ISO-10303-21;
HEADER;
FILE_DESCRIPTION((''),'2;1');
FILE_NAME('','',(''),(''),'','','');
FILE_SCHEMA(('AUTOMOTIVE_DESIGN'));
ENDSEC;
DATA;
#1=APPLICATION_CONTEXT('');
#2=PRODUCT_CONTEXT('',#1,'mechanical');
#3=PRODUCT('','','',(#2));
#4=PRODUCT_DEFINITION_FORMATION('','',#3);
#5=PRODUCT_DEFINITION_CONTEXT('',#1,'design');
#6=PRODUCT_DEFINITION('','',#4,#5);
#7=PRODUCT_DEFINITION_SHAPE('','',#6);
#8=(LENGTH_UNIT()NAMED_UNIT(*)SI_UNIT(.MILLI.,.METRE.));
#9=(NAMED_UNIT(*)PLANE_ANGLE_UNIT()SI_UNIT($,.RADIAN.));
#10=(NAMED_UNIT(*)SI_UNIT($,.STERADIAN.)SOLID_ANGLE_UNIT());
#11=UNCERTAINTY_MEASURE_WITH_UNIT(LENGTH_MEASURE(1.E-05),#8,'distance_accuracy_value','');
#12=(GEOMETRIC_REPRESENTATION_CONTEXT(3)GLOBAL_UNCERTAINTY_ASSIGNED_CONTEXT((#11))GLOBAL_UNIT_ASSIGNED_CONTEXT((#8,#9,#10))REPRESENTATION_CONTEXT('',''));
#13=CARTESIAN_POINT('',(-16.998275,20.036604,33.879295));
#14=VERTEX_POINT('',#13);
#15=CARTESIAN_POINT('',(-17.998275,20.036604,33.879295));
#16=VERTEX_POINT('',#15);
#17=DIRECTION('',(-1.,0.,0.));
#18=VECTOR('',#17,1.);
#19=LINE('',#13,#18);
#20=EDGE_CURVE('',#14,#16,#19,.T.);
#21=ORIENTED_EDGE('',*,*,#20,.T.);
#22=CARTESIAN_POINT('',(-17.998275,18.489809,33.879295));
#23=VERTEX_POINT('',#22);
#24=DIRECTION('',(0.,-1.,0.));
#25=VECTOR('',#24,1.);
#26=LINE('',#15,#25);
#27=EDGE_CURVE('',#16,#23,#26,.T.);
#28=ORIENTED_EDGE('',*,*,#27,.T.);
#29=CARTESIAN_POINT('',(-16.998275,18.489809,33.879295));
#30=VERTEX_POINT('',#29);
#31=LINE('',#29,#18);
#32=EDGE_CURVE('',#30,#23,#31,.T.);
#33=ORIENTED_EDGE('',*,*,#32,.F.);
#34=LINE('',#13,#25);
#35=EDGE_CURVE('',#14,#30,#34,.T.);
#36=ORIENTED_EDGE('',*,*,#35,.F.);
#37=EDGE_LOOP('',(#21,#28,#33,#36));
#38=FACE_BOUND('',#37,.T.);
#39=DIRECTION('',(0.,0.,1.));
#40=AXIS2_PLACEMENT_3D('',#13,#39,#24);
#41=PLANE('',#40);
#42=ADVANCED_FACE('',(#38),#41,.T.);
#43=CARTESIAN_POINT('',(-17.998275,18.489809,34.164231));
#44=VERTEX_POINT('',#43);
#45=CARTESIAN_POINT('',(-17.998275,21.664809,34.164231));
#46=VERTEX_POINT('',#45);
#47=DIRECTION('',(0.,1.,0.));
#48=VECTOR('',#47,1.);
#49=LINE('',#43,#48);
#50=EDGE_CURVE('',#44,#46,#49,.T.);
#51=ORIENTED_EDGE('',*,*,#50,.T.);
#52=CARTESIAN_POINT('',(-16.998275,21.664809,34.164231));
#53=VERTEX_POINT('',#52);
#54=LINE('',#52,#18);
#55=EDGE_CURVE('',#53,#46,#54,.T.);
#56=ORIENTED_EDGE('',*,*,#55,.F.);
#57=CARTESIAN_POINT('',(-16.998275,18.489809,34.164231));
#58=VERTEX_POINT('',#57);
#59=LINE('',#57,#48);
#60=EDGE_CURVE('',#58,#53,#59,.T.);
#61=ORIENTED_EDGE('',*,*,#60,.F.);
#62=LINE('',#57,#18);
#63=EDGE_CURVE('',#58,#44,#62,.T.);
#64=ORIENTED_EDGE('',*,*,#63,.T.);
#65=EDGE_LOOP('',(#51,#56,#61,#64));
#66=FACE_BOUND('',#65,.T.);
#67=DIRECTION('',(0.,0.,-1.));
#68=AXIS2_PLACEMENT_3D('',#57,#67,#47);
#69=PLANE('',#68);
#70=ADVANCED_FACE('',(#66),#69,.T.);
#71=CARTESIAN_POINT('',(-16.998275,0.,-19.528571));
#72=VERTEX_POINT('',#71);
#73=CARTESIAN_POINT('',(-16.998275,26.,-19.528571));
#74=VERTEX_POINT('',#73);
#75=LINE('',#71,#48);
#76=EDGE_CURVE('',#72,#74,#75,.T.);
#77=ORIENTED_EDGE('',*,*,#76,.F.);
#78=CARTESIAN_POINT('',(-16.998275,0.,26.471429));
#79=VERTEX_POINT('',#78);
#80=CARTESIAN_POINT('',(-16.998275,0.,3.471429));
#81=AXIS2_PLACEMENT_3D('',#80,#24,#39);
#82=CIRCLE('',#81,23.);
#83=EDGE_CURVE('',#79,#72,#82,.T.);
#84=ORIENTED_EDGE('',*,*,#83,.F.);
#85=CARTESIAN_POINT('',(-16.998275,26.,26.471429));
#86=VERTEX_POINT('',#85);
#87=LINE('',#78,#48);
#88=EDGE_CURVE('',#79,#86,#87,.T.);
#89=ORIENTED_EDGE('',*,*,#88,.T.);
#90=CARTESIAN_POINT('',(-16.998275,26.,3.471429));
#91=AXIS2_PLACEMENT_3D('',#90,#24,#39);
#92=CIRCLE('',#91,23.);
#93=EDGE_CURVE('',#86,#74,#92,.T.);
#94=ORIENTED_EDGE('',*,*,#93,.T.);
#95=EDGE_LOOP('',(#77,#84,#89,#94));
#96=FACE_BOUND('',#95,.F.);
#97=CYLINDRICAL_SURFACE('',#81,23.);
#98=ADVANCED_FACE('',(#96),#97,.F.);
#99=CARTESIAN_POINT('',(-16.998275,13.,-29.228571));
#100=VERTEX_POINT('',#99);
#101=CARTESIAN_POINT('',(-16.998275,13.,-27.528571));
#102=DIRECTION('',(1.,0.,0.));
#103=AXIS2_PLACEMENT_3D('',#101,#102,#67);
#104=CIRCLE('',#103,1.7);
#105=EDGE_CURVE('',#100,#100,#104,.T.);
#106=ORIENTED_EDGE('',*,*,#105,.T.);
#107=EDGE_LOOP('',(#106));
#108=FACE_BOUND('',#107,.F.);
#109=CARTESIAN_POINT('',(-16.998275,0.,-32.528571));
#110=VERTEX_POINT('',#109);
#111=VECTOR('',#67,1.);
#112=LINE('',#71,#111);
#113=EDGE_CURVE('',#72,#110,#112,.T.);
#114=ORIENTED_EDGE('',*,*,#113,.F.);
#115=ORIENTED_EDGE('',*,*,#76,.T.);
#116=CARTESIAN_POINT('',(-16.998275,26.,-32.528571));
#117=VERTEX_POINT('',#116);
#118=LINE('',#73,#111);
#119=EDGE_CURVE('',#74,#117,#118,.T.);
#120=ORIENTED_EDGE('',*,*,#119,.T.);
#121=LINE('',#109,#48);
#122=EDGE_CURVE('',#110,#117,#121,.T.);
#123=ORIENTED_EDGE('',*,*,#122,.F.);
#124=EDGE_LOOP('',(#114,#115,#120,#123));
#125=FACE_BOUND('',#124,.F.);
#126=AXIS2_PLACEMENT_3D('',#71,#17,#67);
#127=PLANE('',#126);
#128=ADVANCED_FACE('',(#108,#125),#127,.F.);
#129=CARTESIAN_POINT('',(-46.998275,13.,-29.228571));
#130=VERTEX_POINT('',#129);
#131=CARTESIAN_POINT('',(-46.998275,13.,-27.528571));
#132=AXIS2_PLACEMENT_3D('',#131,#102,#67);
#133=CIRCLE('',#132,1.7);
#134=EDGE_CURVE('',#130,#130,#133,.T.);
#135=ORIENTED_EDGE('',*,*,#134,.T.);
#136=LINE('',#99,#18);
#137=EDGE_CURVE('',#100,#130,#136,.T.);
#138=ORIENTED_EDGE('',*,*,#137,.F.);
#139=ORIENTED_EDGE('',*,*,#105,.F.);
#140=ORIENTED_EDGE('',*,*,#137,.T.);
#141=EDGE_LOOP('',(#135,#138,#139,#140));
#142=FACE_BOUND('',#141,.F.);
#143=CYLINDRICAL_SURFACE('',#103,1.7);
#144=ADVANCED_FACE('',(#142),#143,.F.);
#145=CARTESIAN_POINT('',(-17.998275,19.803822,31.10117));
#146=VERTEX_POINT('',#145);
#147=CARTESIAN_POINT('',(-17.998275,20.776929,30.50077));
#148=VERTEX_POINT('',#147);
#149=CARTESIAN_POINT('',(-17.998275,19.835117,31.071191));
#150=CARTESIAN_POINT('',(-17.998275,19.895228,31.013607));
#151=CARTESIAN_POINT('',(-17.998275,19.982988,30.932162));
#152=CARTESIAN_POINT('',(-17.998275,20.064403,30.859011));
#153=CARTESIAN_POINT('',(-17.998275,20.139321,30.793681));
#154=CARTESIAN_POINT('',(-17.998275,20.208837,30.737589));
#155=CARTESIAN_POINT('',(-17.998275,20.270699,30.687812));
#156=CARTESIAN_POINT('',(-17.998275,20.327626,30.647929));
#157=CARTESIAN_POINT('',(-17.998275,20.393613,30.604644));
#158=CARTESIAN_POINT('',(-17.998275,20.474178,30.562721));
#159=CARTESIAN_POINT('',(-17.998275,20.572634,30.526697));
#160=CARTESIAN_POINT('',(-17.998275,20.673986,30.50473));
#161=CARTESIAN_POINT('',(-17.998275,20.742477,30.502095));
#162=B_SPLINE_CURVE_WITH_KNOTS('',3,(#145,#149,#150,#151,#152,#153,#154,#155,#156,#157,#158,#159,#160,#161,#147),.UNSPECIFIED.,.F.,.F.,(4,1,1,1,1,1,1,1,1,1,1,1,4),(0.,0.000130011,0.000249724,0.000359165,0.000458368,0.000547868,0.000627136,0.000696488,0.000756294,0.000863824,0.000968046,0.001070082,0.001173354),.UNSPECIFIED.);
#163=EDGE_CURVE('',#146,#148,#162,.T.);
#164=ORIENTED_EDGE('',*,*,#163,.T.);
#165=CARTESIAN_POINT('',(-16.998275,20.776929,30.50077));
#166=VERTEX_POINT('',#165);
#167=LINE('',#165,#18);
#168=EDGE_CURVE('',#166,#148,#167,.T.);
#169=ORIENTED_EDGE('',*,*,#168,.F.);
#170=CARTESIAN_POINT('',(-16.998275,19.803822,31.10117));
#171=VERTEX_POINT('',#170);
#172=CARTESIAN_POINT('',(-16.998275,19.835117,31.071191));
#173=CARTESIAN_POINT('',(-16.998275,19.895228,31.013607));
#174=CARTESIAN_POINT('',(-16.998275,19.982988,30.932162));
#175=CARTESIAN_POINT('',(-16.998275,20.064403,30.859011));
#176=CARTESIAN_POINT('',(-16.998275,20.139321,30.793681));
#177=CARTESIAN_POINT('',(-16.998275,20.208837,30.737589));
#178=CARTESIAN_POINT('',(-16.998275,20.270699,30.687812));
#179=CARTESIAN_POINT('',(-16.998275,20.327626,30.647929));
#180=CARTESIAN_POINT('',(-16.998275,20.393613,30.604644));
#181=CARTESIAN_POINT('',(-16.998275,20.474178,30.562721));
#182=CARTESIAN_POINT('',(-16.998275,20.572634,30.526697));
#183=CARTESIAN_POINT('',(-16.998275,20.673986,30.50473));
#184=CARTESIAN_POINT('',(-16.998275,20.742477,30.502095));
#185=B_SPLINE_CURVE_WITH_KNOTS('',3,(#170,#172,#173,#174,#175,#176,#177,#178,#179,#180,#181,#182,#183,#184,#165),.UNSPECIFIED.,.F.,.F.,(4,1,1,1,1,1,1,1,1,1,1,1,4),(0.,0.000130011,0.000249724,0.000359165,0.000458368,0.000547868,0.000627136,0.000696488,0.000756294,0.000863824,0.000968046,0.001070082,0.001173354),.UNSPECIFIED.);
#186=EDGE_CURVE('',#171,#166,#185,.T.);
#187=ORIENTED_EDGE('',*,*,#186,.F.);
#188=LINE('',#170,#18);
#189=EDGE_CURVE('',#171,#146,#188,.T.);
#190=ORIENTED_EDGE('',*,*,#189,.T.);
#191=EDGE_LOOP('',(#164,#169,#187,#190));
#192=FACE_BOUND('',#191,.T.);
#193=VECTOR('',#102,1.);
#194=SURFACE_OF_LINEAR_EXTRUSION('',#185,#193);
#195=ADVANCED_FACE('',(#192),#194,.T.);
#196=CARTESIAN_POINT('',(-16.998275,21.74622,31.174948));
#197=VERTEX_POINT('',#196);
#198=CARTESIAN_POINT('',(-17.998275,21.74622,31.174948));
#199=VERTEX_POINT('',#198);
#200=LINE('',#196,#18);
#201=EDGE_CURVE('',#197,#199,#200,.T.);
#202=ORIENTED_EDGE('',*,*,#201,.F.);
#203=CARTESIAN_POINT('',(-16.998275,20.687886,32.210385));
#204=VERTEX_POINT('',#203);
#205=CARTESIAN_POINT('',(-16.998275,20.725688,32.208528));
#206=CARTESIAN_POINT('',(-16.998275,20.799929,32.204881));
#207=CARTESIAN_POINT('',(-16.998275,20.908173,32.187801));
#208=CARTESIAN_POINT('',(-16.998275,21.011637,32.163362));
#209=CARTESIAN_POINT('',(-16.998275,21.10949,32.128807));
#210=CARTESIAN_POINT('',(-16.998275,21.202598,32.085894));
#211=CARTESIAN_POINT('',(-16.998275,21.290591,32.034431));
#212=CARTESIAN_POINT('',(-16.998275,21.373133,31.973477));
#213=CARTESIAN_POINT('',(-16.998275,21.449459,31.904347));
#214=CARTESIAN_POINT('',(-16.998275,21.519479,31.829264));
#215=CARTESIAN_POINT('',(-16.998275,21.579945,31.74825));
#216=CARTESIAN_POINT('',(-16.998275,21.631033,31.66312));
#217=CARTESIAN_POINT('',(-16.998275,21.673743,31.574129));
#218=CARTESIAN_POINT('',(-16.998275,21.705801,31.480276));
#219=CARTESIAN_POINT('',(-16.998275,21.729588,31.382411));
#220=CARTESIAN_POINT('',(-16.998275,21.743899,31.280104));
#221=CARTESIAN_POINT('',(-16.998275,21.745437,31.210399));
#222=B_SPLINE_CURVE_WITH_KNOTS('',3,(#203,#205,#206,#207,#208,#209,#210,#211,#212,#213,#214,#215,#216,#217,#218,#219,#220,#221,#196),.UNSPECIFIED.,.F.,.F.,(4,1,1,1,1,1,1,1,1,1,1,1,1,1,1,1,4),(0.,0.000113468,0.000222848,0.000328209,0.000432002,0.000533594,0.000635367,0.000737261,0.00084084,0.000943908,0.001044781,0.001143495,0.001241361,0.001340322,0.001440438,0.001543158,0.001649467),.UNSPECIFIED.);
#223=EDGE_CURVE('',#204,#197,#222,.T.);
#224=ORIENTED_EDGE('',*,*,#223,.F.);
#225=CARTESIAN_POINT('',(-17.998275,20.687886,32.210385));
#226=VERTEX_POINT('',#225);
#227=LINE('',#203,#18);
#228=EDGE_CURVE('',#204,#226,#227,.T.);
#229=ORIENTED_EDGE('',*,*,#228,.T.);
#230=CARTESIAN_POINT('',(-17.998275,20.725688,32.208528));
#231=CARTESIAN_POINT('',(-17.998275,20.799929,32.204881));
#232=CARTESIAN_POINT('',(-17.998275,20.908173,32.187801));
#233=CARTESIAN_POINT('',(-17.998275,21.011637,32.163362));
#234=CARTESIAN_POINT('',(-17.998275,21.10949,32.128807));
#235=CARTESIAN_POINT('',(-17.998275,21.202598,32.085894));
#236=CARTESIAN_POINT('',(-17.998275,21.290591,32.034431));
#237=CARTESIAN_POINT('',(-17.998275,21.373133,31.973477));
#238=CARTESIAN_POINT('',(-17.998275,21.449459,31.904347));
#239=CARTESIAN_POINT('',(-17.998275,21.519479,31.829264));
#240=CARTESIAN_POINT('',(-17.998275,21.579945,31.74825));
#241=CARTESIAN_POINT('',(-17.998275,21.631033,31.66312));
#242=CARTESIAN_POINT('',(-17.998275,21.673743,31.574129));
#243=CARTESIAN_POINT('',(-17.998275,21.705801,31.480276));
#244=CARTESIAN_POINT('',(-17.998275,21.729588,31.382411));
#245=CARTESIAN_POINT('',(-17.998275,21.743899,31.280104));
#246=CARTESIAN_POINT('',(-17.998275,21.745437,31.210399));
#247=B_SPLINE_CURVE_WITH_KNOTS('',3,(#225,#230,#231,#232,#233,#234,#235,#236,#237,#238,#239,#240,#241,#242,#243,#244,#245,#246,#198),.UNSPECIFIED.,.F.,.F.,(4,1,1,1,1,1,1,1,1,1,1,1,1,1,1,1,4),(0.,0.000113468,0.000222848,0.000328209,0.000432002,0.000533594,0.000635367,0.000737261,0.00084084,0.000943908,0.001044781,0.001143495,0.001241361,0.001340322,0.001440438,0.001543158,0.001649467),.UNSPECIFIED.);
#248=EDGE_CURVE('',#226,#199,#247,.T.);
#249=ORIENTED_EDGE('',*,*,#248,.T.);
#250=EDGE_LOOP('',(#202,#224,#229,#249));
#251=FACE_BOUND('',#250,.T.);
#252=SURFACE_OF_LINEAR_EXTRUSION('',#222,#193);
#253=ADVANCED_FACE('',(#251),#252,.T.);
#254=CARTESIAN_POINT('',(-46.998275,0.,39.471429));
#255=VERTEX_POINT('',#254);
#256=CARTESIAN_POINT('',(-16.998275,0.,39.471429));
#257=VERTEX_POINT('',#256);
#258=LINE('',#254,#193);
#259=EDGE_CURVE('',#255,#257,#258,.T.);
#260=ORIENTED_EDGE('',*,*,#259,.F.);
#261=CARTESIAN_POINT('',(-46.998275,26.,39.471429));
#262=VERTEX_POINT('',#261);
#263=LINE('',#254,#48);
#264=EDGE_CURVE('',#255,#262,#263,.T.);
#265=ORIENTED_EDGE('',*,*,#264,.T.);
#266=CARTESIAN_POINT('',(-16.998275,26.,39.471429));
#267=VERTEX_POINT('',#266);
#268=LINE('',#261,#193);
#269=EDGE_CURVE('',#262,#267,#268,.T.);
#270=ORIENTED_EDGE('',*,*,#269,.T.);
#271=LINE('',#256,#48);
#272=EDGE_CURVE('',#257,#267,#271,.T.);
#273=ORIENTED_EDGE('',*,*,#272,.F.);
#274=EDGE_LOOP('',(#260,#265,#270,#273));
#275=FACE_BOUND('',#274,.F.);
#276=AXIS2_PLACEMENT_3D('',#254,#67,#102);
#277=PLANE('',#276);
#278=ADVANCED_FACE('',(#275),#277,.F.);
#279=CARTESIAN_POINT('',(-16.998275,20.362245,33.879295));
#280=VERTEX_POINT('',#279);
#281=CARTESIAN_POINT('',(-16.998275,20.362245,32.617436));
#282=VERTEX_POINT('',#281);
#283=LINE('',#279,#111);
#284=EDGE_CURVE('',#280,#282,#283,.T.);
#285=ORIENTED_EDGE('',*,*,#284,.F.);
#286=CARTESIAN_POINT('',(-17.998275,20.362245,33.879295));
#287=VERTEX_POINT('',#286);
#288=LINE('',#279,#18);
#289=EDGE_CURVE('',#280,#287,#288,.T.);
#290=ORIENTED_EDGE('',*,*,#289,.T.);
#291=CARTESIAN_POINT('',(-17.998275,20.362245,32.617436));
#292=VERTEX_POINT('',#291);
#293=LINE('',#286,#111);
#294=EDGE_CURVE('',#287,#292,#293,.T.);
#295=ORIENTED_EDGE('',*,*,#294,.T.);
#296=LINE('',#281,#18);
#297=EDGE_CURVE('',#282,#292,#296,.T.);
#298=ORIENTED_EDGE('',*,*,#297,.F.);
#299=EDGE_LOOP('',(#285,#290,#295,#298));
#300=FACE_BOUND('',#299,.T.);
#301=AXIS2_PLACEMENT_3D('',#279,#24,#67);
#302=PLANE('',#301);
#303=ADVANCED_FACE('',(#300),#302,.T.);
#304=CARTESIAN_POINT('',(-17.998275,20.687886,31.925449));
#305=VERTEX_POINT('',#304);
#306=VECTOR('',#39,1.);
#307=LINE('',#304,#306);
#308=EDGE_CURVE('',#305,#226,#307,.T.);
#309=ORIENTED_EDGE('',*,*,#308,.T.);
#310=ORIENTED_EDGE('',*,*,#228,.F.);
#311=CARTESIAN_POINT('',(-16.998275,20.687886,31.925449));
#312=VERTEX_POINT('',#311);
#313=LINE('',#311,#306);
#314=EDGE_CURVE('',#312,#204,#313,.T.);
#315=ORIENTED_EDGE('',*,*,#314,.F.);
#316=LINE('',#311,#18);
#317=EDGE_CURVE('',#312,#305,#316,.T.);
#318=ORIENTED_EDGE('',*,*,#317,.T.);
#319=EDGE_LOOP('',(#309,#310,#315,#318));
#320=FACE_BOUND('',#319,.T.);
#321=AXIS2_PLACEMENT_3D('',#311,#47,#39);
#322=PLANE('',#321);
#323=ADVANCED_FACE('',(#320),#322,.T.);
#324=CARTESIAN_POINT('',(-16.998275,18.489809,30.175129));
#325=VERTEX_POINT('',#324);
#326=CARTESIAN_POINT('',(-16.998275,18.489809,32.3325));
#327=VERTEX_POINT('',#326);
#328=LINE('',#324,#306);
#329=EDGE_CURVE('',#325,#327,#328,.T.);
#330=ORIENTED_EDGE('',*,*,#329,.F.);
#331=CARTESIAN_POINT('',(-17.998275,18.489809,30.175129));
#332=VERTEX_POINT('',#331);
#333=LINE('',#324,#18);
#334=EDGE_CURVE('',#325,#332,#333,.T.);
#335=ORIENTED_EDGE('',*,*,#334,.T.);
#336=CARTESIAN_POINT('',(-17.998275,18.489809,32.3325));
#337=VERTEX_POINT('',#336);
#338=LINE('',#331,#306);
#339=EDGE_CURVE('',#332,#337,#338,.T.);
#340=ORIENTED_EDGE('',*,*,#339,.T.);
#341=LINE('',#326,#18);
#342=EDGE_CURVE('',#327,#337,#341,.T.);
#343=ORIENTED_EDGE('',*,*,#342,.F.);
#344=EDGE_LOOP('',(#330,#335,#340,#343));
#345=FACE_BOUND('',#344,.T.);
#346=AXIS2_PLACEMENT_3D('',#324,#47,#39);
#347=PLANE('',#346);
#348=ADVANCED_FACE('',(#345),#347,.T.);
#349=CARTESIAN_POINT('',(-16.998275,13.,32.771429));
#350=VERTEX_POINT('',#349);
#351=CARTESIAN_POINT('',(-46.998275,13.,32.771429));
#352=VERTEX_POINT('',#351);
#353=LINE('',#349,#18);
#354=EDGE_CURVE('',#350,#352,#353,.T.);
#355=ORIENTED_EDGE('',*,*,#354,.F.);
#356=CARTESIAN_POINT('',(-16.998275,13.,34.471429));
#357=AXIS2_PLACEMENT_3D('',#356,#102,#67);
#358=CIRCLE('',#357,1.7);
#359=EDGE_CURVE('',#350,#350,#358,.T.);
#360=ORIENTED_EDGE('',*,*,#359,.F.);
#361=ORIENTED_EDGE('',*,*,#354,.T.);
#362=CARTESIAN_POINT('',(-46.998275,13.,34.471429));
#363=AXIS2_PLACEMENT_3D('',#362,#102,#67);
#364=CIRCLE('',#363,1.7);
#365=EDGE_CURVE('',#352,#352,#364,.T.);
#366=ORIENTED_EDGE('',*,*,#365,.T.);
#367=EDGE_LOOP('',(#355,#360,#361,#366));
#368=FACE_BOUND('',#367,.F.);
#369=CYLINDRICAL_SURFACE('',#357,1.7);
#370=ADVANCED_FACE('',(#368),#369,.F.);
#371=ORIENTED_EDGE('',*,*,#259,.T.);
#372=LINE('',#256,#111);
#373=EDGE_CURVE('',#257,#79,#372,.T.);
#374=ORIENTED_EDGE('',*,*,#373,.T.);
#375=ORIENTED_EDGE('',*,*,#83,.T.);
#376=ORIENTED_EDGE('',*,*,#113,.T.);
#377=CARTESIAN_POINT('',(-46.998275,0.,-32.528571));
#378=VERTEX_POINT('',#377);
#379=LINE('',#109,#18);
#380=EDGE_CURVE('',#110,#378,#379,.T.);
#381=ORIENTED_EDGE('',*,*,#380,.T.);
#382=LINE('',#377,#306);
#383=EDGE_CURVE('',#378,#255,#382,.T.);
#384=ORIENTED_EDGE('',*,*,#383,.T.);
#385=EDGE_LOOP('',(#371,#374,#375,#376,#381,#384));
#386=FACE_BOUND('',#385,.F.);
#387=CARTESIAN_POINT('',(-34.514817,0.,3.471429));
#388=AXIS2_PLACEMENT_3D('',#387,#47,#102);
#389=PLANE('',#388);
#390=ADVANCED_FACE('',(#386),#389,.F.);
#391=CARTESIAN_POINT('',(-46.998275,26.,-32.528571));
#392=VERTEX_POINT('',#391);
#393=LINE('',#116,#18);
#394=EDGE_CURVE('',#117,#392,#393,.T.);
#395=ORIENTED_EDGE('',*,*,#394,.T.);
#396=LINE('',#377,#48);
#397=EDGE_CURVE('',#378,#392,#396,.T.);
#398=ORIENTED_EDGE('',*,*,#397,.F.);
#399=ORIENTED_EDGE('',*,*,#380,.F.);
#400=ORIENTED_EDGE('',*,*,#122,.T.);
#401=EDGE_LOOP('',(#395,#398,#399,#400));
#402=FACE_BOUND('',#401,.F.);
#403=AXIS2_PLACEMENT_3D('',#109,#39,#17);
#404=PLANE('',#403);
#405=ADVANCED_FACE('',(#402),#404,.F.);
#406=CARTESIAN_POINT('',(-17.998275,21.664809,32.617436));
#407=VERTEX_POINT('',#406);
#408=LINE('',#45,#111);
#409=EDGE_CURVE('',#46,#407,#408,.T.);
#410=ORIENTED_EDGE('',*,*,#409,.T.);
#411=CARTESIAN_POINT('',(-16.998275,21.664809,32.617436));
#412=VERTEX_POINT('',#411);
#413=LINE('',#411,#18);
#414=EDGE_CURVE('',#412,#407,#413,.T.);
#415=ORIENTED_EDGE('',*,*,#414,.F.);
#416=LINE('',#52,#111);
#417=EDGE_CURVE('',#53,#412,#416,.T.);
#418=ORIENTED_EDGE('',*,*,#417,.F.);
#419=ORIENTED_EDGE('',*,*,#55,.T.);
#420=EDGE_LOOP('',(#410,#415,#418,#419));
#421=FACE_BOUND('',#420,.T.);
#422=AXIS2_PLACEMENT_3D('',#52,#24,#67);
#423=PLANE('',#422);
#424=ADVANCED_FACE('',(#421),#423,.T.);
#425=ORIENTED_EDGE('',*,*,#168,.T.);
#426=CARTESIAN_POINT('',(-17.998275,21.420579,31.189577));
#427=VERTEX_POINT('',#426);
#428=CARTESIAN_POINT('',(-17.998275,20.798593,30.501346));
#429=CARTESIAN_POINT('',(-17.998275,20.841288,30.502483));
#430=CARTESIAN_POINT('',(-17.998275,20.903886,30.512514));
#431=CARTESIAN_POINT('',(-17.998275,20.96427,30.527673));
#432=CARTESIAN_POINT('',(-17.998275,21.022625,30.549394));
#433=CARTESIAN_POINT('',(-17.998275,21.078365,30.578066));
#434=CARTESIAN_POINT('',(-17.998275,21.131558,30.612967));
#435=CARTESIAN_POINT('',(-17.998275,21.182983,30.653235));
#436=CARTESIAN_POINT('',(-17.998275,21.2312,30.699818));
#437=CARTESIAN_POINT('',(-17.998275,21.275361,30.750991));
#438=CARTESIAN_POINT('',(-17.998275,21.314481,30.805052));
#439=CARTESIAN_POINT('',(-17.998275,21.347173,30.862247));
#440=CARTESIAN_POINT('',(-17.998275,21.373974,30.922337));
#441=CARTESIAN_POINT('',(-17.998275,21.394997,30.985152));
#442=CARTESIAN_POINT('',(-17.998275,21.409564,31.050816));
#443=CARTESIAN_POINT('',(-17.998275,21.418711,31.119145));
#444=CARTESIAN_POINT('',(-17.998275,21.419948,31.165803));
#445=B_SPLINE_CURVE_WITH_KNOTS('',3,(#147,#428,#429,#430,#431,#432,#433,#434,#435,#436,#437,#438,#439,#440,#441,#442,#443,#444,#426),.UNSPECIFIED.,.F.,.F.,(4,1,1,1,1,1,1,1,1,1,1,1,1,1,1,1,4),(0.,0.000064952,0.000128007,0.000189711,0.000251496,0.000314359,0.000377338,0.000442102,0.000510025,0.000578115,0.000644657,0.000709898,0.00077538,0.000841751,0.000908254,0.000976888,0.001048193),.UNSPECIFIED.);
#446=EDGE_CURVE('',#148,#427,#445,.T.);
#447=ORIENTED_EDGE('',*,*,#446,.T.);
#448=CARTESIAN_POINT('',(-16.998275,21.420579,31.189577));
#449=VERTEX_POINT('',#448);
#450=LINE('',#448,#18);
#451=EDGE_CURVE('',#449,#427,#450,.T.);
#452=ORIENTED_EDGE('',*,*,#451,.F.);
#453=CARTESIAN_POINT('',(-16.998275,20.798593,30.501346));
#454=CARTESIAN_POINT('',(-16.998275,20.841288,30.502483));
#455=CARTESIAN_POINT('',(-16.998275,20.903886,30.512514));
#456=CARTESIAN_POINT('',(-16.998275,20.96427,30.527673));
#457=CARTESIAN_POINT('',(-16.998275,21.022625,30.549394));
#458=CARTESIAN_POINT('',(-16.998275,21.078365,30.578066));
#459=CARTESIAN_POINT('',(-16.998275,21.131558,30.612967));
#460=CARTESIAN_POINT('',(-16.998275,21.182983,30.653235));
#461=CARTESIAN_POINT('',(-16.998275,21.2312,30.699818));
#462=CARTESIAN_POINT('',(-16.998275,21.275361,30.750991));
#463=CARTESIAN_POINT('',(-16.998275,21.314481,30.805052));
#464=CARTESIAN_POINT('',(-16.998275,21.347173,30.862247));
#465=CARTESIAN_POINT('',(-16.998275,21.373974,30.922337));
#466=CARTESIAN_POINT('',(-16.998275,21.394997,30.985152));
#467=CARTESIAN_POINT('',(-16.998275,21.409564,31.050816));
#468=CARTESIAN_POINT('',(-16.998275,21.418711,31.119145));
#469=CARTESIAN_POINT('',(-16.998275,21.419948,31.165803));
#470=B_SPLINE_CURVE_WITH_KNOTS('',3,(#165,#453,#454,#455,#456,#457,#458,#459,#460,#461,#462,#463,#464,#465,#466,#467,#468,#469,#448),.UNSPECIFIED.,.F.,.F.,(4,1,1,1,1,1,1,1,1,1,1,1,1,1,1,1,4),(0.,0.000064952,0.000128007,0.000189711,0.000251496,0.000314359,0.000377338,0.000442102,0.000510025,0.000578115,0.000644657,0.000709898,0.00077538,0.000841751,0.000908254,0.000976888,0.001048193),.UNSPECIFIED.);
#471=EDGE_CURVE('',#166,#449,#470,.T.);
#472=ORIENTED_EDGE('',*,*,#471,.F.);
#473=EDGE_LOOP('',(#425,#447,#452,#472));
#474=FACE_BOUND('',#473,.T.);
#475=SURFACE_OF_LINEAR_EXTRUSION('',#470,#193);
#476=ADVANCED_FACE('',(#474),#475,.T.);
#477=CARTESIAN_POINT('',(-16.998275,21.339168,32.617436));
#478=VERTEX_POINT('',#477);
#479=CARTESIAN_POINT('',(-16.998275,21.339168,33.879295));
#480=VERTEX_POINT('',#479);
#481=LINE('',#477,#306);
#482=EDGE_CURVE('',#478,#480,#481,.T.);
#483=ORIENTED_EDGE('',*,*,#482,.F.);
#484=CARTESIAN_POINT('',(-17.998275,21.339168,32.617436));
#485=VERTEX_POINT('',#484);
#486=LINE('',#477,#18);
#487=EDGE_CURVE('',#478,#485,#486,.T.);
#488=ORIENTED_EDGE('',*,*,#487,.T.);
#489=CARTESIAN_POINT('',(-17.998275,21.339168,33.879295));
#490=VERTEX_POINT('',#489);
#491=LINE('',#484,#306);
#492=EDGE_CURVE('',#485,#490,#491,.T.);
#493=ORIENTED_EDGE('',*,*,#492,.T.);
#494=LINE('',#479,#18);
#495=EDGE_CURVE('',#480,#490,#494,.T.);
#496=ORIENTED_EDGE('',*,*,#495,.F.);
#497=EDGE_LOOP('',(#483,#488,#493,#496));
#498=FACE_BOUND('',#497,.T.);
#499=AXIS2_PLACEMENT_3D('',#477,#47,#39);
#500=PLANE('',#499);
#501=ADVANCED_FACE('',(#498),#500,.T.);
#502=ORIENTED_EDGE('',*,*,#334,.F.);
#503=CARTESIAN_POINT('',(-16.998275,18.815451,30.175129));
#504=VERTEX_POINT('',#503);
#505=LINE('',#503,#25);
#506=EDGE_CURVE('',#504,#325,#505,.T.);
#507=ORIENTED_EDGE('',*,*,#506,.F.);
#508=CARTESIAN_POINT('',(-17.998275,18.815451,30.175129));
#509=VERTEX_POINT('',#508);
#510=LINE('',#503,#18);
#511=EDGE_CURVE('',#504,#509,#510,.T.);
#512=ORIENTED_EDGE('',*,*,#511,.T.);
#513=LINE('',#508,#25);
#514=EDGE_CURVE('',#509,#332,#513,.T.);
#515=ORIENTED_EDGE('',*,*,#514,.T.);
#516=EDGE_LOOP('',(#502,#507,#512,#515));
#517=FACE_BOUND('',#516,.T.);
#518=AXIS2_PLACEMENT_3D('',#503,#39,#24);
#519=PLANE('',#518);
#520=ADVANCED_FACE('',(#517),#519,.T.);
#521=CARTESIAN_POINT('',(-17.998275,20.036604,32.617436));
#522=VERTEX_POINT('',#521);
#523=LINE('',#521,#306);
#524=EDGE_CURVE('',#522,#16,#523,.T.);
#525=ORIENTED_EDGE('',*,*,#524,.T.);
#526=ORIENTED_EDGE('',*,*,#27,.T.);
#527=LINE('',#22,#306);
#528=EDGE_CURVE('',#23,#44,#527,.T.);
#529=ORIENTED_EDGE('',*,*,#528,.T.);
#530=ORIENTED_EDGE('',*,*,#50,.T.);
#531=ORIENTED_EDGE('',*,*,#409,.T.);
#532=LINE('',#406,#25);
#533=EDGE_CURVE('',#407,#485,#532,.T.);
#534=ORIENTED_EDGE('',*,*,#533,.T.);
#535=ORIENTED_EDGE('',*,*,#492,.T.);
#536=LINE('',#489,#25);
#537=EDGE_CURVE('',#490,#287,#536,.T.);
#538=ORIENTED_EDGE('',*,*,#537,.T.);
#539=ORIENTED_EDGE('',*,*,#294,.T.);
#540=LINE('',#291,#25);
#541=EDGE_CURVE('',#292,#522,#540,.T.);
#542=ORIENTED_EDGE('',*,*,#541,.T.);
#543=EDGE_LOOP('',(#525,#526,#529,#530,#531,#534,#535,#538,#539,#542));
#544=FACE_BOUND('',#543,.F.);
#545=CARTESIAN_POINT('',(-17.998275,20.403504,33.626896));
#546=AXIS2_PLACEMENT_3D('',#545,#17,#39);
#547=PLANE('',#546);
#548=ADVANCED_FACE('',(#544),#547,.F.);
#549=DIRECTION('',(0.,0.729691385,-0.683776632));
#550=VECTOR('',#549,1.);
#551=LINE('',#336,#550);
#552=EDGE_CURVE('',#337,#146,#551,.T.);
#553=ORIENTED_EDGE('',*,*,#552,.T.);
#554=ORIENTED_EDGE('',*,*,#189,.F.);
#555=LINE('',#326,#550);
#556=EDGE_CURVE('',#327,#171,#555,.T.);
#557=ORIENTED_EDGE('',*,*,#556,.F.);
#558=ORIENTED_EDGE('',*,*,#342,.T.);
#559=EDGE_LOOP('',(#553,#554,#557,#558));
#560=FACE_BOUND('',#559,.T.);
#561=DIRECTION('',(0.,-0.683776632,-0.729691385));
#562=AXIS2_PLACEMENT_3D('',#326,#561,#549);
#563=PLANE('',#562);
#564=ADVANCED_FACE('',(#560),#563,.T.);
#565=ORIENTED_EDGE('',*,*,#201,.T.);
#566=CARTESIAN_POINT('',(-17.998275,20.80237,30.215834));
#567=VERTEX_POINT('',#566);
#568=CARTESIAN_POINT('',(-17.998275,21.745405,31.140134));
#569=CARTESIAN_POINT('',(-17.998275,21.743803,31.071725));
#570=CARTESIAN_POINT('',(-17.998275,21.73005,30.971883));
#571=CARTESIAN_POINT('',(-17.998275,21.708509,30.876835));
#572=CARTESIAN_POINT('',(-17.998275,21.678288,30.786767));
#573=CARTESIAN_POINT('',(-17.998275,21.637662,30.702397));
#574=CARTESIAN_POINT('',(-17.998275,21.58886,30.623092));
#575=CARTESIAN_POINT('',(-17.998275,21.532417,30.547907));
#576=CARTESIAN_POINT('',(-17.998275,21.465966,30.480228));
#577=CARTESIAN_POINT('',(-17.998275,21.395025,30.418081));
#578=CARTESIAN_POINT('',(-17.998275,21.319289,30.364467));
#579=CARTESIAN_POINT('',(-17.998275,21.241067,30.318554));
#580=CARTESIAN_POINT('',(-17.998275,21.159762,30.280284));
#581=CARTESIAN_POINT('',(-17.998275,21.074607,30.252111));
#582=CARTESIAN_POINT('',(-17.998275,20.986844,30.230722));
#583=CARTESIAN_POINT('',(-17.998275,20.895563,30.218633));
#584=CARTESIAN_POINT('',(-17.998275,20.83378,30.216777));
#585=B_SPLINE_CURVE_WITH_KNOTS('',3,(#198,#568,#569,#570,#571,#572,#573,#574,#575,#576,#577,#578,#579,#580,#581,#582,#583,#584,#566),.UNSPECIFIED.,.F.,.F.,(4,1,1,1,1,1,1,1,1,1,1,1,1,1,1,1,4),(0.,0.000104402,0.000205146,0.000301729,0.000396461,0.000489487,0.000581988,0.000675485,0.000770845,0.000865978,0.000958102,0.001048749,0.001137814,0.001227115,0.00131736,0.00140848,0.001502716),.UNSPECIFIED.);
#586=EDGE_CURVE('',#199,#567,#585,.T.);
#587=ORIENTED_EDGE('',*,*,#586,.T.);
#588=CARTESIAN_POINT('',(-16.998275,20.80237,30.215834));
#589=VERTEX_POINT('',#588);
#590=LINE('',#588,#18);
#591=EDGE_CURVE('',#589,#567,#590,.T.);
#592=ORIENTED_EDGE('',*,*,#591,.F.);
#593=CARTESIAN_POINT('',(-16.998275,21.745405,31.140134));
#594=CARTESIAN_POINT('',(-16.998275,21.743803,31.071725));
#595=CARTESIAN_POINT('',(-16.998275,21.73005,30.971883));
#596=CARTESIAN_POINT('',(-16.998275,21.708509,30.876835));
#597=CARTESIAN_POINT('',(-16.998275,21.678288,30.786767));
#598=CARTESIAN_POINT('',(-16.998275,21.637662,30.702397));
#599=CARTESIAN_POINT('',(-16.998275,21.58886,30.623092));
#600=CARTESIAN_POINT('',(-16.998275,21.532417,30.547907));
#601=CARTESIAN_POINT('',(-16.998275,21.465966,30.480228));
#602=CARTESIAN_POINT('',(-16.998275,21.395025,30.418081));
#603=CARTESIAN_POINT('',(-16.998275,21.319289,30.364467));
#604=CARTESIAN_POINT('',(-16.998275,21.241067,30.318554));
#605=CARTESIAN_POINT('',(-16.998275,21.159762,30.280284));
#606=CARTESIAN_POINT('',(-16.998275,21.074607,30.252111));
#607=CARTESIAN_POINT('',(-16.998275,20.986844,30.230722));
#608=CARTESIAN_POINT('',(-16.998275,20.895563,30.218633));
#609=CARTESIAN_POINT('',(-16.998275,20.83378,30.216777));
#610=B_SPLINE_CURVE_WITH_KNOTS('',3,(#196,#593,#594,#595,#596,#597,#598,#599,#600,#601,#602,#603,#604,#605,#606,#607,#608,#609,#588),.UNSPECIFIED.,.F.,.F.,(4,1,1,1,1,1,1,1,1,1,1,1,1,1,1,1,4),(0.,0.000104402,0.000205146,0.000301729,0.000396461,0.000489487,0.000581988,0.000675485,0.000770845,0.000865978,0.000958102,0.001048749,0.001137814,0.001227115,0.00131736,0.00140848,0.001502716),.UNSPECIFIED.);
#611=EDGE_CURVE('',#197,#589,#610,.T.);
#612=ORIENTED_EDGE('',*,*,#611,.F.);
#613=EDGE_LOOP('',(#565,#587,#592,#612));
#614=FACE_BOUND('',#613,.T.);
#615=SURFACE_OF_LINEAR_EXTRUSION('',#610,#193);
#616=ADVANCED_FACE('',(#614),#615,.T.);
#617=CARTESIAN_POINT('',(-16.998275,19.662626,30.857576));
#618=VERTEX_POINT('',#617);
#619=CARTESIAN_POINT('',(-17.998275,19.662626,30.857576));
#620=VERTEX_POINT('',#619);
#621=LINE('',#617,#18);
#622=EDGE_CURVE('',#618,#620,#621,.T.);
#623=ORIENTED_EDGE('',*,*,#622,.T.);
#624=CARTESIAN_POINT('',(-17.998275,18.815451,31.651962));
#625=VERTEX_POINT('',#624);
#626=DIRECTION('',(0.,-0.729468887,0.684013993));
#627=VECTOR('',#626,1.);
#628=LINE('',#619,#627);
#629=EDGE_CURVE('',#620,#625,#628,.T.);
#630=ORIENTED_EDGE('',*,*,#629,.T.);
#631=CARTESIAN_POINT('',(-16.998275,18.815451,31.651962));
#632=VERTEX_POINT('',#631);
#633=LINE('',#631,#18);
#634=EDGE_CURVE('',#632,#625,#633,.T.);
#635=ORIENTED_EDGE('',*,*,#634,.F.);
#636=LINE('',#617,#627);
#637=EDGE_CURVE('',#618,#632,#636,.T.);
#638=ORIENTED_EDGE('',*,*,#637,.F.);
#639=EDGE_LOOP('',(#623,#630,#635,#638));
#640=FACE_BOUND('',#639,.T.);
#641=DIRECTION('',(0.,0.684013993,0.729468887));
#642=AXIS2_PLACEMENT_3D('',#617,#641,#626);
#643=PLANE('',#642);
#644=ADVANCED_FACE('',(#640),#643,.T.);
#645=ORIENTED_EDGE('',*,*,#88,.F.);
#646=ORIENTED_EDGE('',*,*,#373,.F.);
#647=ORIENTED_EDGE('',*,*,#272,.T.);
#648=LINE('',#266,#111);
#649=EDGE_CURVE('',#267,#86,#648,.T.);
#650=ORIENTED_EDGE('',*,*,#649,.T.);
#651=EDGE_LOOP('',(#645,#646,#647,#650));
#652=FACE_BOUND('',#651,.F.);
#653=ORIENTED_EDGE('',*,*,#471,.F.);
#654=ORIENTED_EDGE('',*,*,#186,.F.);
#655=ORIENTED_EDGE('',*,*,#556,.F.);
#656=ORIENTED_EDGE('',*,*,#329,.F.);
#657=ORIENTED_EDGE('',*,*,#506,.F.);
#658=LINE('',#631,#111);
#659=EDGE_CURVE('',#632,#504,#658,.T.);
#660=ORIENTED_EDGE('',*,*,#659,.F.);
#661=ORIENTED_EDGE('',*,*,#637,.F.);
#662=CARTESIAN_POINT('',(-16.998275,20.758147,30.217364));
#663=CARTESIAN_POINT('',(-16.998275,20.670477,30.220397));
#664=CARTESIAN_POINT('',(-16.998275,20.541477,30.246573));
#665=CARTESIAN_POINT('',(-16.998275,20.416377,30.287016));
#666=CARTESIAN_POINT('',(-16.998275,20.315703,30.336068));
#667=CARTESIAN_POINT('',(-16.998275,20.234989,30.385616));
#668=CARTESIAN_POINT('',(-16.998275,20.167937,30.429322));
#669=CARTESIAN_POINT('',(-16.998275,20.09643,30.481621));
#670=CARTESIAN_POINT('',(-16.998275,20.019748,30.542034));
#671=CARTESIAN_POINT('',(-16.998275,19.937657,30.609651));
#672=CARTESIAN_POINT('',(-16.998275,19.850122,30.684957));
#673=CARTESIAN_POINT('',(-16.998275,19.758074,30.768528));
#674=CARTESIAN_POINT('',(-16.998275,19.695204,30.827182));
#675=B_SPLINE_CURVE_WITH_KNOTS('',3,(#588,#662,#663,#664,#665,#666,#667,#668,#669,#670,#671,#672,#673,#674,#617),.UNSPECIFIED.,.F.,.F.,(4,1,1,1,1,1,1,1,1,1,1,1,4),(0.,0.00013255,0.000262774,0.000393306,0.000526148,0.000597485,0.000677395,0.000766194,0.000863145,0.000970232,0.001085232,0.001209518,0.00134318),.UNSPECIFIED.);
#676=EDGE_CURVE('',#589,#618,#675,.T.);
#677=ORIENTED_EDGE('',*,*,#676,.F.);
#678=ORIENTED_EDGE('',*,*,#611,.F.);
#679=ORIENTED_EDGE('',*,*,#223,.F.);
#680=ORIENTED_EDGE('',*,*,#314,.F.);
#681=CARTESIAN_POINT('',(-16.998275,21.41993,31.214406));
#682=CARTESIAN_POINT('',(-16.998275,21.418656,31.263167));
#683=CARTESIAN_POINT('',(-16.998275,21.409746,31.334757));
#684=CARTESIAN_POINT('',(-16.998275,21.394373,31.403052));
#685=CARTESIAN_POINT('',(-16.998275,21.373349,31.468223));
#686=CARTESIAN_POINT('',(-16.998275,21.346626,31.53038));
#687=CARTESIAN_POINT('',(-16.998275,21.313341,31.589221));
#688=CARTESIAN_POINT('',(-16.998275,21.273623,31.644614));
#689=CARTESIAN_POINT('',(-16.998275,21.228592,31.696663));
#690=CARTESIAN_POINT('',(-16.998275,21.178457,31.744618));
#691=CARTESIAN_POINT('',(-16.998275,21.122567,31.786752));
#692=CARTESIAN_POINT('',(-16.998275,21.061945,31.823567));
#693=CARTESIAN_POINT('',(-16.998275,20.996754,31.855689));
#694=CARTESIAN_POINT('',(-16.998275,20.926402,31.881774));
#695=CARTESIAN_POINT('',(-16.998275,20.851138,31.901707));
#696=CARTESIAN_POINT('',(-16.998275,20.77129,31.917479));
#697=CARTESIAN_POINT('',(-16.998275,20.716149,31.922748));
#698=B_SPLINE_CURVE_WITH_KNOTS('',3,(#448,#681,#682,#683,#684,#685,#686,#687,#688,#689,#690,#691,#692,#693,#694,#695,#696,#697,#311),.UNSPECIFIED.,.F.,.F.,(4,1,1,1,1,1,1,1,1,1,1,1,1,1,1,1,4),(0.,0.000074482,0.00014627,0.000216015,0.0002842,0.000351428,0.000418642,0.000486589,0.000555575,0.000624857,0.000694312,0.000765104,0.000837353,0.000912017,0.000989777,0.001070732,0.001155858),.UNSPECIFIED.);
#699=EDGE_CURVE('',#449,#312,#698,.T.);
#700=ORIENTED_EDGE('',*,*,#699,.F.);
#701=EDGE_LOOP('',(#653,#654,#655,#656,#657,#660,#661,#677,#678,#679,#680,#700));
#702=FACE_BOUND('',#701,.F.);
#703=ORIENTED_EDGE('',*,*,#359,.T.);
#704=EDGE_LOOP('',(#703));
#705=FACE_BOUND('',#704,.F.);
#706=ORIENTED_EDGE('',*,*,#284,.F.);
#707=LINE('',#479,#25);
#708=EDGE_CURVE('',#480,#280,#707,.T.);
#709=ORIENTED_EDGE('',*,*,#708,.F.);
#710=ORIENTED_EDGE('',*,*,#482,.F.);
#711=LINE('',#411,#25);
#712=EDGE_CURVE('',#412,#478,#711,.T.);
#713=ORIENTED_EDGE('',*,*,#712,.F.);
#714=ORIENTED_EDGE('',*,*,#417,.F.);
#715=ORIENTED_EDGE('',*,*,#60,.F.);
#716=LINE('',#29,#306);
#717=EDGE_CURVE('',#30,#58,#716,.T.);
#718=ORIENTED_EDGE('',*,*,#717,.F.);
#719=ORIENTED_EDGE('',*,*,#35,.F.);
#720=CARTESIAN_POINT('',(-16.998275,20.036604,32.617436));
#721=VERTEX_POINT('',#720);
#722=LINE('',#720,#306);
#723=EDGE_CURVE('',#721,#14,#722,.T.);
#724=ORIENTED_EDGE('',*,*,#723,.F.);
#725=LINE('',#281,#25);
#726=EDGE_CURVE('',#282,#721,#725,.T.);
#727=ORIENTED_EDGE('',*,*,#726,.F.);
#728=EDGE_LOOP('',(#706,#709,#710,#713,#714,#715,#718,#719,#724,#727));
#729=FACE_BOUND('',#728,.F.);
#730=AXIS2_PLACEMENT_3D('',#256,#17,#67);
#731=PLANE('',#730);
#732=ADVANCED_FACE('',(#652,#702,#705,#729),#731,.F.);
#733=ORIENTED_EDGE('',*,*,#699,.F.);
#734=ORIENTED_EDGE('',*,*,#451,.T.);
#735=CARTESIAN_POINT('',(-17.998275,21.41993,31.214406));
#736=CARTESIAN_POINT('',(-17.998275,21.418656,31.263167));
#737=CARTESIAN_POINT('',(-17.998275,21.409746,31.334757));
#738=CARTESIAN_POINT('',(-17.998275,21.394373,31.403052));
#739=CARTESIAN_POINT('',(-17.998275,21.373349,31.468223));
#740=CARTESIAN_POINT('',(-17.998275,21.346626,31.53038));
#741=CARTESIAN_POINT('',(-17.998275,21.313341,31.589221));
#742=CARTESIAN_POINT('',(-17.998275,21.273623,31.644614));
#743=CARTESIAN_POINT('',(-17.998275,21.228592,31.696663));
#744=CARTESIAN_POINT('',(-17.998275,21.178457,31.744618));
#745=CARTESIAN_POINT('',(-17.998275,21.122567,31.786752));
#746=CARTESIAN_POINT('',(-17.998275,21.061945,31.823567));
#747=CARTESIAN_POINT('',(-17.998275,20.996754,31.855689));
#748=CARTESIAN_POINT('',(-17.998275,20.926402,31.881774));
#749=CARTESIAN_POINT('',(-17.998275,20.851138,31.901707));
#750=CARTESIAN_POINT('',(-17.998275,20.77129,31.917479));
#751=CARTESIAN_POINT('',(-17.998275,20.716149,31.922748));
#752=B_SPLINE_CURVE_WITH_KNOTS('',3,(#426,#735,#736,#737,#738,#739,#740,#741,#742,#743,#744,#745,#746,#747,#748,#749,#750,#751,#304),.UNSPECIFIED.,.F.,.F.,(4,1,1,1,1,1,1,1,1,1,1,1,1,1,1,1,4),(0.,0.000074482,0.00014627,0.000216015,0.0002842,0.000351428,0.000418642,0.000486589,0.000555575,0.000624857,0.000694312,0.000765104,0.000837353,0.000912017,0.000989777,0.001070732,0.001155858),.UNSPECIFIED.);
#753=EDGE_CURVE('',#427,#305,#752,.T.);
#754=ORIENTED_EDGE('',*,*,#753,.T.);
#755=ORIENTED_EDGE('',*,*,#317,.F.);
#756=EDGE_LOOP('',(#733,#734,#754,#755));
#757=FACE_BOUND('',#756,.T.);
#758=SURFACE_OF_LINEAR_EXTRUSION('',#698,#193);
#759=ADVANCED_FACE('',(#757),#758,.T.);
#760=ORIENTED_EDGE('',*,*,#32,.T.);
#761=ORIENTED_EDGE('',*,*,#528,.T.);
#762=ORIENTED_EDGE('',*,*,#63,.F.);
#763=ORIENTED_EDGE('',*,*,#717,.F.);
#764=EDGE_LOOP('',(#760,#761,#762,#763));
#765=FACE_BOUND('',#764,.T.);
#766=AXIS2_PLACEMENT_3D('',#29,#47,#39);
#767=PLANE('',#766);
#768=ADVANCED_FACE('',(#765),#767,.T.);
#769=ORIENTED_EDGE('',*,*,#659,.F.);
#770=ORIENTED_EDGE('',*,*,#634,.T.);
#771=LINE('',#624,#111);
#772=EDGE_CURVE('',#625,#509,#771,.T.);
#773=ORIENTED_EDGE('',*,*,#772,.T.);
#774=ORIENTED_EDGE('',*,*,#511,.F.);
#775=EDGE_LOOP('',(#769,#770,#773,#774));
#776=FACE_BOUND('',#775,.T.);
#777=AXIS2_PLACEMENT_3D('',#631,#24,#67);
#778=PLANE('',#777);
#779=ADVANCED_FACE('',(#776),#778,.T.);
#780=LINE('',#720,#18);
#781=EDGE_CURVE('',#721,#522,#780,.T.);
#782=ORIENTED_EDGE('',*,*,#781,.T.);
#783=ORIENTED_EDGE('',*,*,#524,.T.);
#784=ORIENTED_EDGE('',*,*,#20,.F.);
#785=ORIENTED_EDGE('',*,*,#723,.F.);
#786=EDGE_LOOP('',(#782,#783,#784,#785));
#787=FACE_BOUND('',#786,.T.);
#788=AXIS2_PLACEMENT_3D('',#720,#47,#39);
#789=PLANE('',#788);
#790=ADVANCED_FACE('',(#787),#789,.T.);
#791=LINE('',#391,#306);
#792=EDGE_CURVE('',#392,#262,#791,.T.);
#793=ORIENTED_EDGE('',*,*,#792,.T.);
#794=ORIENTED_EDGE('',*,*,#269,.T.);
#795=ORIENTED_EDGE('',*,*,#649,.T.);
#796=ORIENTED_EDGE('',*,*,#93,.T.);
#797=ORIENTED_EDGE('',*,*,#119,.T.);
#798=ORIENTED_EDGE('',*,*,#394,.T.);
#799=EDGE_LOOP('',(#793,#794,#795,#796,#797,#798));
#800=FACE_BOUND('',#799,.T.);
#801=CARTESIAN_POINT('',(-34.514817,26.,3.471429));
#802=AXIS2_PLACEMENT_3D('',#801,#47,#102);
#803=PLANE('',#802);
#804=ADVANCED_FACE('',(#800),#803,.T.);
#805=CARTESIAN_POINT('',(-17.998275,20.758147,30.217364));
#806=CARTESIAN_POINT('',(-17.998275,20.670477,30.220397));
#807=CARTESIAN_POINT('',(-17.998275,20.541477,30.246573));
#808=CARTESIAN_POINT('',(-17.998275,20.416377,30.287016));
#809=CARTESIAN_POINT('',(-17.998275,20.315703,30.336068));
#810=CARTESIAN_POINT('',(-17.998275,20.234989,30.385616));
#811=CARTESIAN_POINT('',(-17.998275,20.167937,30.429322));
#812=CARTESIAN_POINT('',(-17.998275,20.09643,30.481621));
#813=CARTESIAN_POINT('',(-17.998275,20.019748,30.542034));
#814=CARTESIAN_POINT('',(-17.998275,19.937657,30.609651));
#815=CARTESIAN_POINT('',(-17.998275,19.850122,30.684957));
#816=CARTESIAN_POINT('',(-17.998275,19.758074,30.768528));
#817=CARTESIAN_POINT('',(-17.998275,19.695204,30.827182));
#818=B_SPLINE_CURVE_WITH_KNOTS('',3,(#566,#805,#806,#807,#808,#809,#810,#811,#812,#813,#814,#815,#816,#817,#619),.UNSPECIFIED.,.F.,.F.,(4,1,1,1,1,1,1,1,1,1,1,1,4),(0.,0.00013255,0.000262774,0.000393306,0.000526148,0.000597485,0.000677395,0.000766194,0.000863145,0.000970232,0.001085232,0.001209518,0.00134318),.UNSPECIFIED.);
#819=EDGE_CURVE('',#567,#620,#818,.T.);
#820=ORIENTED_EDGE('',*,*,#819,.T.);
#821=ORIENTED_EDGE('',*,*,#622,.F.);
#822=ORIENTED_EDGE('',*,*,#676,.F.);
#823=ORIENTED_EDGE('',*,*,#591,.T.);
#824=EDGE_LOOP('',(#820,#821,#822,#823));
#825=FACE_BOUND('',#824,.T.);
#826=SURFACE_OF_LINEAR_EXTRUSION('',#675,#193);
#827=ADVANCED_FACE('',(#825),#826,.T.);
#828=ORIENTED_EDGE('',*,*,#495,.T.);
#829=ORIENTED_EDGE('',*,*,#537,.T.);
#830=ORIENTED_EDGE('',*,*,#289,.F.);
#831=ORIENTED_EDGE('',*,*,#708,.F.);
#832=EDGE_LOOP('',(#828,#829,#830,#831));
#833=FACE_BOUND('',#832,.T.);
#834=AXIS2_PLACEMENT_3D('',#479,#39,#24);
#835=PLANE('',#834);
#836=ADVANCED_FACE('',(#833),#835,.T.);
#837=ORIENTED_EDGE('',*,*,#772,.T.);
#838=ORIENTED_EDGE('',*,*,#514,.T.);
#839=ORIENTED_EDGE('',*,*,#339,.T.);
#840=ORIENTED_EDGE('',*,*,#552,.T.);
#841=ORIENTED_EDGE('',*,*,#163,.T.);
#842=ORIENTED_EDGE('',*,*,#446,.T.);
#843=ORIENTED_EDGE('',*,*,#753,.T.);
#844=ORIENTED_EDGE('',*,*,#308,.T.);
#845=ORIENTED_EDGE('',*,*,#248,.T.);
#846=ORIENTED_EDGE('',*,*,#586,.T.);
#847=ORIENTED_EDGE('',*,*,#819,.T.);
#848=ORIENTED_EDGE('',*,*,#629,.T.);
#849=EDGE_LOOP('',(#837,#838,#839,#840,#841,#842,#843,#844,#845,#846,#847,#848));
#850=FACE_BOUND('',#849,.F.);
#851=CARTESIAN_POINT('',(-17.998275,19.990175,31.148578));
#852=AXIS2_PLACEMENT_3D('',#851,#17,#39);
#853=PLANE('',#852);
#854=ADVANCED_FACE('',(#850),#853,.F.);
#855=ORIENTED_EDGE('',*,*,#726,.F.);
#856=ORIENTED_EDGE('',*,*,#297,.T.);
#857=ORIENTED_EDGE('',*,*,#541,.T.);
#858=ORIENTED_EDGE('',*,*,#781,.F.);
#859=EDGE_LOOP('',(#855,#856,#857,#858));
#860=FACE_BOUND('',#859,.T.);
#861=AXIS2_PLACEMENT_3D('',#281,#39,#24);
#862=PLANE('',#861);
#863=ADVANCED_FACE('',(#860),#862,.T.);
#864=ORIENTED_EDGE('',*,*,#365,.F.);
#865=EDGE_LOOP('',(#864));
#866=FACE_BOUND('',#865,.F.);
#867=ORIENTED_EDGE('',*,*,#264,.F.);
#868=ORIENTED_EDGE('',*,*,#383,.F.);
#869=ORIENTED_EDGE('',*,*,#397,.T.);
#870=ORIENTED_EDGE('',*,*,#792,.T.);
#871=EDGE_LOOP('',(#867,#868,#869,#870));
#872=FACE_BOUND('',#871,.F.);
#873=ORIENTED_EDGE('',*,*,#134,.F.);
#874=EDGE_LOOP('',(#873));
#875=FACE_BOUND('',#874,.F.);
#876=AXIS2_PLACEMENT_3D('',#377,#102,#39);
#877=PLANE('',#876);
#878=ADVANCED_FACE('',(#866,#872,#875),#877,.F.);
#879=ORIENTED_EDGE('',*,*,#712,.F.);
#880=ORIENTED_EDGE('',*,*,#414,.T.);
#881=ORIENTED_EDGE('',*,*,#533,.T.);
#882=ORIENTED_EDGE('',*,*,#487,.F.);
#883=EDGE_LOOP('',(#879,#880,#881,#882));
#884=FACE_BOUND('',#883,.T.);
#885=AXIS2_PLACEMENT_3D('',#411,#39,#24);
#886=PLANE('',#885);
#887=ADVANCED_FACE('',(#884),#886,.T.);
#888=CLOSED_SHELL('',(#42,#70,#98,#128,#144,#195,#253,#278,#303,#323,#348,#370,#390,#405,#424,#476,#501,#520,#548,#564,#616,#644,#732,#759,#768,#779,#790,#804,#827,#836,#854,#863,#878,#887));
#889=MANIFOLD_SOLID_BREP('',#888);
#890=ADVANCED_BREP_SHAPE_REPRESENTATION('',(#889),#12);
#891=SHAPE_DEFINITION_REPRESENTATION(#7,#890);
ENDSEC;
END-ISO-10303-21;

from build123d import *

# Parameters (mm, degrees)
BOSS_EXTRUDE1_DEPTH = 26
SKETCH2_R           = 1.7
CUT_EXTRUDE1_DEPTH  = 31
CUT_EXTRUDE2_DEPTH  = 1


with BuildPart() as part:
    # Sketch1 → Boss-Extrude1 (new body)
    with BuildSketch(Plane(origin=(0, 0, 0), x_dir=(1, 0, 0), z_dir=(0, 1, 0))):
        with BuildLine():
            Line((-46.998275301, 32.528571429), (-46.998275301, -39.471428571))
            Line((-46.998275301, -39.471428571), (-16.998275301, -39.471428571))
            Line((-16.998275301, -39.471428571), (-16.998275301, -26.471428571))
            ThreePointArc((-16.998275301, -26.471428571), (-39.998275301, -3.471428571), (-16.998275301, 19.528571429))
            Line((-16.998275301, 19.528571429), (-16.998275301, 32.528571429))
            Line((-16.998275301, 32.528571429), (-46.998275301, 32.528571429))
        make_face()
    extrude(amount=BOSS_EXTRUDE1_DEPTH)

    # Sketch2 → Cut-Extrude1 (cut, through all)
    with BuildSketch(Plane(origin=(-16.998275301, 0, 0), x_dir=(0, 0, -1), z_dir=(1, 0, 0))):
        with Locations((-34.471428571, 13)):
            Circle(SKETCH2_R)
        with Locations((27.528571429, 13)):
            Circle(SKETCH2_R)
    extrude(amount=-CUT_EXTRUDE1_DEPTH, mode=Mode.SUBTRACT)

    # Sketch3 → Cut-Extrude2 (cut)
    with BuildSketch(Plane(origin=(-16.998275301, 0, 0), x_dir=(0, 0, -1), z_dir=(1, 0, 0))):
        Polygon((-34.164231178, 21.664809495), (-32.617436306, 21.664809495), (-32.617436306, 21.33916847), (-33.87929528, 21.33916847), (-33.87929528, 20.362245393), (-32.617436306, 20.362245393), (-32.617436306, 20.036604367), (-33.87929528, 20.036604367), (-33.87929528, 18.489809495), (-34.164231178, 18.489809495), align=None)
        with BuildLine():
            Line((-31.925449127, 20.687886418), (-32.210385024, 20.687886418))
            add(Edge.make_bspline(
                [(-32.210385024, 20.687886418), (-32.208527964, 20.725687867), (-32.204880747, 20.799928905), (-32.187800799, 20.908172734), (-32.163361574, 21.01163673), (-32.128807184, 21.109490152), (-32.085893632, 21.202598213), (-32.034431393, 21.290591084), (-31.973476971, 21.373133091), (-31.904346577, 21.449459042), (-31.829263597, 21.519479196), (-31.748250352, 21.579945023), (-31.663119506, 21.631033196), (-31.574129337, 21.673742608), (-31.480275826, 21.705800897), (-31.382410662, 21.72958767), (-31.280103874, 21.74389907), (-31.210398997, 21.745437389), (-31.174948325, 21.746219752)],
                knots=[0, 0, 0, 0, 0.000113468, 0.000222848, 0.000328209, 0.000432002, 0.000533594, 0.000635367, 0.000737261, 0.00084084, 0.000943908, 0.001044781, 0.001143495, 0.001241361, 0.001340322, 0.001440438, 0.001543158, 0.001649467, 0.001649467, 0.001649467, 0.001649467], degree=3))
            add(Edge.make_bspline(
                [(-31.174948325, 21.746219752), (-31.140133929, 21.745404723), (-31.071724885, 21.743803222), (-30.971882915, 21.730050002), (-30.876834941, 21.708509359), (-30.786766753, 21.678287517), (-30.702396966, 21.637661643), (-30.623091775, 21.58885959), (-30.54790704, 21.532417315), (-30.480228029, 21.465965641), (-30.418081414, 21.395024907), (-30.364467225, 21.319289451), (-30.318553856, 21.241067171), (-30.280283603, 21.159761588), (-30.252111249, 21.074607155), (-30.230722446, 20.986843621), (-30.218632577, 20.895562542), (-30.216777086, 20.833780167), (-30.215833742, 20.802369592)],
                knots=[0, 0, 0, 0, 0.000104402, 0.000205146, 0.000301729, 0.000396461, 0.000489487, 0.000581988, 0.000675485, 0.000770845, 0.000865978, 0.000958102, 0.001048749, 0.001137814, 0.001227115, 0.00131736, 0.00140848, 0.001502716, 0.001502716, 0.001502716, 0.001502716], degree=3))
            add(Edge.make_bspline(
                [(-30.215833742, 20.802369592), (-30.21736377, 20.75814655), (-30.220396976, 20.67047652), (-30.24657322, 20.541476852), (-30.287015551, 20.416377263), (-30.336067513, 20.315703408), (-30.385616171, 20.234988656), (-30.429322129, 20.16793661), (-30.481621049, 20.096429789), (-30.542034416, 20.019747997), (-30.609650855, 19.937656676), (-30.684957018, 19.850122138), (-30.76852818, 19.758074075), (-30.827182388, 19.695203802), (-30.857575529, 19.662626002)],
                knots=[0, 0, 0, 0, 0.00013255, 0.000262774, 0.000393306, 0.000526148, 0.000597485, 0.000677395, 0.000766194, 0.000863145, 0.000970232, 0.001085232, 0.001209518, 0.00134318, 0.00134318, 0.00134318, 0.00134318], degree=3))
            Line((-30.857575529, 19.662626002), (-31.651961546, 18.815450521))
            Line((-31.651961546, 18.815450521), (-30.175128614, 18.815450521))
            Line((-30.175128614, 18.815450521), (-30.175128614, 18.489809495))
            Line((-30.175128614, 18.489809495), (-32.332500409, 18.489809495))
            Line((-32.332500409, 18.489809495), (-31.10117028, 19.803821915))
            add(Edge.make_bspline(
                [(-31.10117028, 19.803821915), (-31.071191126, 19.835116808), (-31.013607306, 19.895227891), (-30.932161682, 19.982987576), (-30.8590106, 20.064403231), (-30.793680537, 20.139321029), (-30.737588714, 20.208836808), (-30.687811761, 20.270699146), (-30.647928689, 20.327626398), (-30.604644008, 20.393612526), (-30.562721325, 20.474177985), (-30.526696545, 20.572633546), (-30.504730218, 20.673986125), (-30.502095118, 20.742477259), (-30.500769639, 20.776928886)],
                knots=[0, 0, 0, 0, 0.000130011, 0.000249724, 0.000359165, 0.000458368, 0.000547868, 0.000627136, 0.000696488, 0.000756294, 0.000863824, 0.000968046, 0.001070082, 0.001173354, 0.001173354, 0.001173354, 0.001173354], degree=3))
            add(Edge.make_bspline(
                [(-30.500769639, 20.776928886), (-30.501346348, 20.798592726), (-30.502482931, 20.841287995), (-30.512513843, 20.903886076), (-30.527672659, 20.964269872), (-30.549394429, 21.022625119), (-30.578066257, 21.078365103), (-30.612967109, 21.131557675), (-30.653235238, 21.182982665), (-30.699818175, 21.231200299), (-30.750991482, 21.275361107), (-30.80505198, 21.314480813), (-30.862247432, 21.347173435), (-30.922336686, 21.373973608), (-30.985152219, 21.394996989), (-31.050815523, 21.409564415), (-31.119145166, 21.418710668), (-31.165802695, 21.419948167), (-31.189576731, 21.420578726)],
                knots=[0, 0, 0, 0, 6.4952e-05, 0.000128007, 0.000189711, 0.000251496, 0.000314359, 0.000377338, 0.000442102, 0.000510025, 0.000578115, 0.000644657, 0.000709898, 0.00077538, 0.000841751, 0.000908254, 0.000976888, 0.001048193, 0.001048193, 0.001048193, 0.001048193], degree=3))
            add(Edge.make_bspline(
                [(-31.189576731, 21.420578726), (-31.214405986, 21.41993009), (-31.263166544, 21.418656275), (-31.334757381, 21.409745715), (-31.403052336, 21.394373417), (-31.468223206, 21.373348863), (-31.530380258, 21.346625751), (-31.589221213, 21.313341097), (-31.644613976, 21.273623213), (-31.69666268, 21.228592137), (-31.744617861, 21.178456528), (-31.786751812, 21.12256749), (-31.823567311, 21.061945477), (-31.855688544, 20.996754063), (-31.881774063, 20.926401706), (-31.90170685, 20.851138145), (-31.917479203, 20.771290178), (-31.922748361, 20.716149422), (-31.925449127, 20.687886418)],
                knots=[0, 0, 0, 0, 7.4482e-05, 0.00014627, 0.000216015, 0.0002842, 0.000351428, 0.000418642, 0.000486589, 0.000555575, 0.000624857, 0.000694312, 0.000765104, 0.000837353, 0.000912017, 0.000989777, 0.001070732, 0.001155858, 0.001155858, 0.001155858, 0.001155858], degree=3))
        make_face()
    extrude(amount=-CUT_EXTRUDE2_DEPTH, mode=Mode.SUBTRACT)


solid = part.part
